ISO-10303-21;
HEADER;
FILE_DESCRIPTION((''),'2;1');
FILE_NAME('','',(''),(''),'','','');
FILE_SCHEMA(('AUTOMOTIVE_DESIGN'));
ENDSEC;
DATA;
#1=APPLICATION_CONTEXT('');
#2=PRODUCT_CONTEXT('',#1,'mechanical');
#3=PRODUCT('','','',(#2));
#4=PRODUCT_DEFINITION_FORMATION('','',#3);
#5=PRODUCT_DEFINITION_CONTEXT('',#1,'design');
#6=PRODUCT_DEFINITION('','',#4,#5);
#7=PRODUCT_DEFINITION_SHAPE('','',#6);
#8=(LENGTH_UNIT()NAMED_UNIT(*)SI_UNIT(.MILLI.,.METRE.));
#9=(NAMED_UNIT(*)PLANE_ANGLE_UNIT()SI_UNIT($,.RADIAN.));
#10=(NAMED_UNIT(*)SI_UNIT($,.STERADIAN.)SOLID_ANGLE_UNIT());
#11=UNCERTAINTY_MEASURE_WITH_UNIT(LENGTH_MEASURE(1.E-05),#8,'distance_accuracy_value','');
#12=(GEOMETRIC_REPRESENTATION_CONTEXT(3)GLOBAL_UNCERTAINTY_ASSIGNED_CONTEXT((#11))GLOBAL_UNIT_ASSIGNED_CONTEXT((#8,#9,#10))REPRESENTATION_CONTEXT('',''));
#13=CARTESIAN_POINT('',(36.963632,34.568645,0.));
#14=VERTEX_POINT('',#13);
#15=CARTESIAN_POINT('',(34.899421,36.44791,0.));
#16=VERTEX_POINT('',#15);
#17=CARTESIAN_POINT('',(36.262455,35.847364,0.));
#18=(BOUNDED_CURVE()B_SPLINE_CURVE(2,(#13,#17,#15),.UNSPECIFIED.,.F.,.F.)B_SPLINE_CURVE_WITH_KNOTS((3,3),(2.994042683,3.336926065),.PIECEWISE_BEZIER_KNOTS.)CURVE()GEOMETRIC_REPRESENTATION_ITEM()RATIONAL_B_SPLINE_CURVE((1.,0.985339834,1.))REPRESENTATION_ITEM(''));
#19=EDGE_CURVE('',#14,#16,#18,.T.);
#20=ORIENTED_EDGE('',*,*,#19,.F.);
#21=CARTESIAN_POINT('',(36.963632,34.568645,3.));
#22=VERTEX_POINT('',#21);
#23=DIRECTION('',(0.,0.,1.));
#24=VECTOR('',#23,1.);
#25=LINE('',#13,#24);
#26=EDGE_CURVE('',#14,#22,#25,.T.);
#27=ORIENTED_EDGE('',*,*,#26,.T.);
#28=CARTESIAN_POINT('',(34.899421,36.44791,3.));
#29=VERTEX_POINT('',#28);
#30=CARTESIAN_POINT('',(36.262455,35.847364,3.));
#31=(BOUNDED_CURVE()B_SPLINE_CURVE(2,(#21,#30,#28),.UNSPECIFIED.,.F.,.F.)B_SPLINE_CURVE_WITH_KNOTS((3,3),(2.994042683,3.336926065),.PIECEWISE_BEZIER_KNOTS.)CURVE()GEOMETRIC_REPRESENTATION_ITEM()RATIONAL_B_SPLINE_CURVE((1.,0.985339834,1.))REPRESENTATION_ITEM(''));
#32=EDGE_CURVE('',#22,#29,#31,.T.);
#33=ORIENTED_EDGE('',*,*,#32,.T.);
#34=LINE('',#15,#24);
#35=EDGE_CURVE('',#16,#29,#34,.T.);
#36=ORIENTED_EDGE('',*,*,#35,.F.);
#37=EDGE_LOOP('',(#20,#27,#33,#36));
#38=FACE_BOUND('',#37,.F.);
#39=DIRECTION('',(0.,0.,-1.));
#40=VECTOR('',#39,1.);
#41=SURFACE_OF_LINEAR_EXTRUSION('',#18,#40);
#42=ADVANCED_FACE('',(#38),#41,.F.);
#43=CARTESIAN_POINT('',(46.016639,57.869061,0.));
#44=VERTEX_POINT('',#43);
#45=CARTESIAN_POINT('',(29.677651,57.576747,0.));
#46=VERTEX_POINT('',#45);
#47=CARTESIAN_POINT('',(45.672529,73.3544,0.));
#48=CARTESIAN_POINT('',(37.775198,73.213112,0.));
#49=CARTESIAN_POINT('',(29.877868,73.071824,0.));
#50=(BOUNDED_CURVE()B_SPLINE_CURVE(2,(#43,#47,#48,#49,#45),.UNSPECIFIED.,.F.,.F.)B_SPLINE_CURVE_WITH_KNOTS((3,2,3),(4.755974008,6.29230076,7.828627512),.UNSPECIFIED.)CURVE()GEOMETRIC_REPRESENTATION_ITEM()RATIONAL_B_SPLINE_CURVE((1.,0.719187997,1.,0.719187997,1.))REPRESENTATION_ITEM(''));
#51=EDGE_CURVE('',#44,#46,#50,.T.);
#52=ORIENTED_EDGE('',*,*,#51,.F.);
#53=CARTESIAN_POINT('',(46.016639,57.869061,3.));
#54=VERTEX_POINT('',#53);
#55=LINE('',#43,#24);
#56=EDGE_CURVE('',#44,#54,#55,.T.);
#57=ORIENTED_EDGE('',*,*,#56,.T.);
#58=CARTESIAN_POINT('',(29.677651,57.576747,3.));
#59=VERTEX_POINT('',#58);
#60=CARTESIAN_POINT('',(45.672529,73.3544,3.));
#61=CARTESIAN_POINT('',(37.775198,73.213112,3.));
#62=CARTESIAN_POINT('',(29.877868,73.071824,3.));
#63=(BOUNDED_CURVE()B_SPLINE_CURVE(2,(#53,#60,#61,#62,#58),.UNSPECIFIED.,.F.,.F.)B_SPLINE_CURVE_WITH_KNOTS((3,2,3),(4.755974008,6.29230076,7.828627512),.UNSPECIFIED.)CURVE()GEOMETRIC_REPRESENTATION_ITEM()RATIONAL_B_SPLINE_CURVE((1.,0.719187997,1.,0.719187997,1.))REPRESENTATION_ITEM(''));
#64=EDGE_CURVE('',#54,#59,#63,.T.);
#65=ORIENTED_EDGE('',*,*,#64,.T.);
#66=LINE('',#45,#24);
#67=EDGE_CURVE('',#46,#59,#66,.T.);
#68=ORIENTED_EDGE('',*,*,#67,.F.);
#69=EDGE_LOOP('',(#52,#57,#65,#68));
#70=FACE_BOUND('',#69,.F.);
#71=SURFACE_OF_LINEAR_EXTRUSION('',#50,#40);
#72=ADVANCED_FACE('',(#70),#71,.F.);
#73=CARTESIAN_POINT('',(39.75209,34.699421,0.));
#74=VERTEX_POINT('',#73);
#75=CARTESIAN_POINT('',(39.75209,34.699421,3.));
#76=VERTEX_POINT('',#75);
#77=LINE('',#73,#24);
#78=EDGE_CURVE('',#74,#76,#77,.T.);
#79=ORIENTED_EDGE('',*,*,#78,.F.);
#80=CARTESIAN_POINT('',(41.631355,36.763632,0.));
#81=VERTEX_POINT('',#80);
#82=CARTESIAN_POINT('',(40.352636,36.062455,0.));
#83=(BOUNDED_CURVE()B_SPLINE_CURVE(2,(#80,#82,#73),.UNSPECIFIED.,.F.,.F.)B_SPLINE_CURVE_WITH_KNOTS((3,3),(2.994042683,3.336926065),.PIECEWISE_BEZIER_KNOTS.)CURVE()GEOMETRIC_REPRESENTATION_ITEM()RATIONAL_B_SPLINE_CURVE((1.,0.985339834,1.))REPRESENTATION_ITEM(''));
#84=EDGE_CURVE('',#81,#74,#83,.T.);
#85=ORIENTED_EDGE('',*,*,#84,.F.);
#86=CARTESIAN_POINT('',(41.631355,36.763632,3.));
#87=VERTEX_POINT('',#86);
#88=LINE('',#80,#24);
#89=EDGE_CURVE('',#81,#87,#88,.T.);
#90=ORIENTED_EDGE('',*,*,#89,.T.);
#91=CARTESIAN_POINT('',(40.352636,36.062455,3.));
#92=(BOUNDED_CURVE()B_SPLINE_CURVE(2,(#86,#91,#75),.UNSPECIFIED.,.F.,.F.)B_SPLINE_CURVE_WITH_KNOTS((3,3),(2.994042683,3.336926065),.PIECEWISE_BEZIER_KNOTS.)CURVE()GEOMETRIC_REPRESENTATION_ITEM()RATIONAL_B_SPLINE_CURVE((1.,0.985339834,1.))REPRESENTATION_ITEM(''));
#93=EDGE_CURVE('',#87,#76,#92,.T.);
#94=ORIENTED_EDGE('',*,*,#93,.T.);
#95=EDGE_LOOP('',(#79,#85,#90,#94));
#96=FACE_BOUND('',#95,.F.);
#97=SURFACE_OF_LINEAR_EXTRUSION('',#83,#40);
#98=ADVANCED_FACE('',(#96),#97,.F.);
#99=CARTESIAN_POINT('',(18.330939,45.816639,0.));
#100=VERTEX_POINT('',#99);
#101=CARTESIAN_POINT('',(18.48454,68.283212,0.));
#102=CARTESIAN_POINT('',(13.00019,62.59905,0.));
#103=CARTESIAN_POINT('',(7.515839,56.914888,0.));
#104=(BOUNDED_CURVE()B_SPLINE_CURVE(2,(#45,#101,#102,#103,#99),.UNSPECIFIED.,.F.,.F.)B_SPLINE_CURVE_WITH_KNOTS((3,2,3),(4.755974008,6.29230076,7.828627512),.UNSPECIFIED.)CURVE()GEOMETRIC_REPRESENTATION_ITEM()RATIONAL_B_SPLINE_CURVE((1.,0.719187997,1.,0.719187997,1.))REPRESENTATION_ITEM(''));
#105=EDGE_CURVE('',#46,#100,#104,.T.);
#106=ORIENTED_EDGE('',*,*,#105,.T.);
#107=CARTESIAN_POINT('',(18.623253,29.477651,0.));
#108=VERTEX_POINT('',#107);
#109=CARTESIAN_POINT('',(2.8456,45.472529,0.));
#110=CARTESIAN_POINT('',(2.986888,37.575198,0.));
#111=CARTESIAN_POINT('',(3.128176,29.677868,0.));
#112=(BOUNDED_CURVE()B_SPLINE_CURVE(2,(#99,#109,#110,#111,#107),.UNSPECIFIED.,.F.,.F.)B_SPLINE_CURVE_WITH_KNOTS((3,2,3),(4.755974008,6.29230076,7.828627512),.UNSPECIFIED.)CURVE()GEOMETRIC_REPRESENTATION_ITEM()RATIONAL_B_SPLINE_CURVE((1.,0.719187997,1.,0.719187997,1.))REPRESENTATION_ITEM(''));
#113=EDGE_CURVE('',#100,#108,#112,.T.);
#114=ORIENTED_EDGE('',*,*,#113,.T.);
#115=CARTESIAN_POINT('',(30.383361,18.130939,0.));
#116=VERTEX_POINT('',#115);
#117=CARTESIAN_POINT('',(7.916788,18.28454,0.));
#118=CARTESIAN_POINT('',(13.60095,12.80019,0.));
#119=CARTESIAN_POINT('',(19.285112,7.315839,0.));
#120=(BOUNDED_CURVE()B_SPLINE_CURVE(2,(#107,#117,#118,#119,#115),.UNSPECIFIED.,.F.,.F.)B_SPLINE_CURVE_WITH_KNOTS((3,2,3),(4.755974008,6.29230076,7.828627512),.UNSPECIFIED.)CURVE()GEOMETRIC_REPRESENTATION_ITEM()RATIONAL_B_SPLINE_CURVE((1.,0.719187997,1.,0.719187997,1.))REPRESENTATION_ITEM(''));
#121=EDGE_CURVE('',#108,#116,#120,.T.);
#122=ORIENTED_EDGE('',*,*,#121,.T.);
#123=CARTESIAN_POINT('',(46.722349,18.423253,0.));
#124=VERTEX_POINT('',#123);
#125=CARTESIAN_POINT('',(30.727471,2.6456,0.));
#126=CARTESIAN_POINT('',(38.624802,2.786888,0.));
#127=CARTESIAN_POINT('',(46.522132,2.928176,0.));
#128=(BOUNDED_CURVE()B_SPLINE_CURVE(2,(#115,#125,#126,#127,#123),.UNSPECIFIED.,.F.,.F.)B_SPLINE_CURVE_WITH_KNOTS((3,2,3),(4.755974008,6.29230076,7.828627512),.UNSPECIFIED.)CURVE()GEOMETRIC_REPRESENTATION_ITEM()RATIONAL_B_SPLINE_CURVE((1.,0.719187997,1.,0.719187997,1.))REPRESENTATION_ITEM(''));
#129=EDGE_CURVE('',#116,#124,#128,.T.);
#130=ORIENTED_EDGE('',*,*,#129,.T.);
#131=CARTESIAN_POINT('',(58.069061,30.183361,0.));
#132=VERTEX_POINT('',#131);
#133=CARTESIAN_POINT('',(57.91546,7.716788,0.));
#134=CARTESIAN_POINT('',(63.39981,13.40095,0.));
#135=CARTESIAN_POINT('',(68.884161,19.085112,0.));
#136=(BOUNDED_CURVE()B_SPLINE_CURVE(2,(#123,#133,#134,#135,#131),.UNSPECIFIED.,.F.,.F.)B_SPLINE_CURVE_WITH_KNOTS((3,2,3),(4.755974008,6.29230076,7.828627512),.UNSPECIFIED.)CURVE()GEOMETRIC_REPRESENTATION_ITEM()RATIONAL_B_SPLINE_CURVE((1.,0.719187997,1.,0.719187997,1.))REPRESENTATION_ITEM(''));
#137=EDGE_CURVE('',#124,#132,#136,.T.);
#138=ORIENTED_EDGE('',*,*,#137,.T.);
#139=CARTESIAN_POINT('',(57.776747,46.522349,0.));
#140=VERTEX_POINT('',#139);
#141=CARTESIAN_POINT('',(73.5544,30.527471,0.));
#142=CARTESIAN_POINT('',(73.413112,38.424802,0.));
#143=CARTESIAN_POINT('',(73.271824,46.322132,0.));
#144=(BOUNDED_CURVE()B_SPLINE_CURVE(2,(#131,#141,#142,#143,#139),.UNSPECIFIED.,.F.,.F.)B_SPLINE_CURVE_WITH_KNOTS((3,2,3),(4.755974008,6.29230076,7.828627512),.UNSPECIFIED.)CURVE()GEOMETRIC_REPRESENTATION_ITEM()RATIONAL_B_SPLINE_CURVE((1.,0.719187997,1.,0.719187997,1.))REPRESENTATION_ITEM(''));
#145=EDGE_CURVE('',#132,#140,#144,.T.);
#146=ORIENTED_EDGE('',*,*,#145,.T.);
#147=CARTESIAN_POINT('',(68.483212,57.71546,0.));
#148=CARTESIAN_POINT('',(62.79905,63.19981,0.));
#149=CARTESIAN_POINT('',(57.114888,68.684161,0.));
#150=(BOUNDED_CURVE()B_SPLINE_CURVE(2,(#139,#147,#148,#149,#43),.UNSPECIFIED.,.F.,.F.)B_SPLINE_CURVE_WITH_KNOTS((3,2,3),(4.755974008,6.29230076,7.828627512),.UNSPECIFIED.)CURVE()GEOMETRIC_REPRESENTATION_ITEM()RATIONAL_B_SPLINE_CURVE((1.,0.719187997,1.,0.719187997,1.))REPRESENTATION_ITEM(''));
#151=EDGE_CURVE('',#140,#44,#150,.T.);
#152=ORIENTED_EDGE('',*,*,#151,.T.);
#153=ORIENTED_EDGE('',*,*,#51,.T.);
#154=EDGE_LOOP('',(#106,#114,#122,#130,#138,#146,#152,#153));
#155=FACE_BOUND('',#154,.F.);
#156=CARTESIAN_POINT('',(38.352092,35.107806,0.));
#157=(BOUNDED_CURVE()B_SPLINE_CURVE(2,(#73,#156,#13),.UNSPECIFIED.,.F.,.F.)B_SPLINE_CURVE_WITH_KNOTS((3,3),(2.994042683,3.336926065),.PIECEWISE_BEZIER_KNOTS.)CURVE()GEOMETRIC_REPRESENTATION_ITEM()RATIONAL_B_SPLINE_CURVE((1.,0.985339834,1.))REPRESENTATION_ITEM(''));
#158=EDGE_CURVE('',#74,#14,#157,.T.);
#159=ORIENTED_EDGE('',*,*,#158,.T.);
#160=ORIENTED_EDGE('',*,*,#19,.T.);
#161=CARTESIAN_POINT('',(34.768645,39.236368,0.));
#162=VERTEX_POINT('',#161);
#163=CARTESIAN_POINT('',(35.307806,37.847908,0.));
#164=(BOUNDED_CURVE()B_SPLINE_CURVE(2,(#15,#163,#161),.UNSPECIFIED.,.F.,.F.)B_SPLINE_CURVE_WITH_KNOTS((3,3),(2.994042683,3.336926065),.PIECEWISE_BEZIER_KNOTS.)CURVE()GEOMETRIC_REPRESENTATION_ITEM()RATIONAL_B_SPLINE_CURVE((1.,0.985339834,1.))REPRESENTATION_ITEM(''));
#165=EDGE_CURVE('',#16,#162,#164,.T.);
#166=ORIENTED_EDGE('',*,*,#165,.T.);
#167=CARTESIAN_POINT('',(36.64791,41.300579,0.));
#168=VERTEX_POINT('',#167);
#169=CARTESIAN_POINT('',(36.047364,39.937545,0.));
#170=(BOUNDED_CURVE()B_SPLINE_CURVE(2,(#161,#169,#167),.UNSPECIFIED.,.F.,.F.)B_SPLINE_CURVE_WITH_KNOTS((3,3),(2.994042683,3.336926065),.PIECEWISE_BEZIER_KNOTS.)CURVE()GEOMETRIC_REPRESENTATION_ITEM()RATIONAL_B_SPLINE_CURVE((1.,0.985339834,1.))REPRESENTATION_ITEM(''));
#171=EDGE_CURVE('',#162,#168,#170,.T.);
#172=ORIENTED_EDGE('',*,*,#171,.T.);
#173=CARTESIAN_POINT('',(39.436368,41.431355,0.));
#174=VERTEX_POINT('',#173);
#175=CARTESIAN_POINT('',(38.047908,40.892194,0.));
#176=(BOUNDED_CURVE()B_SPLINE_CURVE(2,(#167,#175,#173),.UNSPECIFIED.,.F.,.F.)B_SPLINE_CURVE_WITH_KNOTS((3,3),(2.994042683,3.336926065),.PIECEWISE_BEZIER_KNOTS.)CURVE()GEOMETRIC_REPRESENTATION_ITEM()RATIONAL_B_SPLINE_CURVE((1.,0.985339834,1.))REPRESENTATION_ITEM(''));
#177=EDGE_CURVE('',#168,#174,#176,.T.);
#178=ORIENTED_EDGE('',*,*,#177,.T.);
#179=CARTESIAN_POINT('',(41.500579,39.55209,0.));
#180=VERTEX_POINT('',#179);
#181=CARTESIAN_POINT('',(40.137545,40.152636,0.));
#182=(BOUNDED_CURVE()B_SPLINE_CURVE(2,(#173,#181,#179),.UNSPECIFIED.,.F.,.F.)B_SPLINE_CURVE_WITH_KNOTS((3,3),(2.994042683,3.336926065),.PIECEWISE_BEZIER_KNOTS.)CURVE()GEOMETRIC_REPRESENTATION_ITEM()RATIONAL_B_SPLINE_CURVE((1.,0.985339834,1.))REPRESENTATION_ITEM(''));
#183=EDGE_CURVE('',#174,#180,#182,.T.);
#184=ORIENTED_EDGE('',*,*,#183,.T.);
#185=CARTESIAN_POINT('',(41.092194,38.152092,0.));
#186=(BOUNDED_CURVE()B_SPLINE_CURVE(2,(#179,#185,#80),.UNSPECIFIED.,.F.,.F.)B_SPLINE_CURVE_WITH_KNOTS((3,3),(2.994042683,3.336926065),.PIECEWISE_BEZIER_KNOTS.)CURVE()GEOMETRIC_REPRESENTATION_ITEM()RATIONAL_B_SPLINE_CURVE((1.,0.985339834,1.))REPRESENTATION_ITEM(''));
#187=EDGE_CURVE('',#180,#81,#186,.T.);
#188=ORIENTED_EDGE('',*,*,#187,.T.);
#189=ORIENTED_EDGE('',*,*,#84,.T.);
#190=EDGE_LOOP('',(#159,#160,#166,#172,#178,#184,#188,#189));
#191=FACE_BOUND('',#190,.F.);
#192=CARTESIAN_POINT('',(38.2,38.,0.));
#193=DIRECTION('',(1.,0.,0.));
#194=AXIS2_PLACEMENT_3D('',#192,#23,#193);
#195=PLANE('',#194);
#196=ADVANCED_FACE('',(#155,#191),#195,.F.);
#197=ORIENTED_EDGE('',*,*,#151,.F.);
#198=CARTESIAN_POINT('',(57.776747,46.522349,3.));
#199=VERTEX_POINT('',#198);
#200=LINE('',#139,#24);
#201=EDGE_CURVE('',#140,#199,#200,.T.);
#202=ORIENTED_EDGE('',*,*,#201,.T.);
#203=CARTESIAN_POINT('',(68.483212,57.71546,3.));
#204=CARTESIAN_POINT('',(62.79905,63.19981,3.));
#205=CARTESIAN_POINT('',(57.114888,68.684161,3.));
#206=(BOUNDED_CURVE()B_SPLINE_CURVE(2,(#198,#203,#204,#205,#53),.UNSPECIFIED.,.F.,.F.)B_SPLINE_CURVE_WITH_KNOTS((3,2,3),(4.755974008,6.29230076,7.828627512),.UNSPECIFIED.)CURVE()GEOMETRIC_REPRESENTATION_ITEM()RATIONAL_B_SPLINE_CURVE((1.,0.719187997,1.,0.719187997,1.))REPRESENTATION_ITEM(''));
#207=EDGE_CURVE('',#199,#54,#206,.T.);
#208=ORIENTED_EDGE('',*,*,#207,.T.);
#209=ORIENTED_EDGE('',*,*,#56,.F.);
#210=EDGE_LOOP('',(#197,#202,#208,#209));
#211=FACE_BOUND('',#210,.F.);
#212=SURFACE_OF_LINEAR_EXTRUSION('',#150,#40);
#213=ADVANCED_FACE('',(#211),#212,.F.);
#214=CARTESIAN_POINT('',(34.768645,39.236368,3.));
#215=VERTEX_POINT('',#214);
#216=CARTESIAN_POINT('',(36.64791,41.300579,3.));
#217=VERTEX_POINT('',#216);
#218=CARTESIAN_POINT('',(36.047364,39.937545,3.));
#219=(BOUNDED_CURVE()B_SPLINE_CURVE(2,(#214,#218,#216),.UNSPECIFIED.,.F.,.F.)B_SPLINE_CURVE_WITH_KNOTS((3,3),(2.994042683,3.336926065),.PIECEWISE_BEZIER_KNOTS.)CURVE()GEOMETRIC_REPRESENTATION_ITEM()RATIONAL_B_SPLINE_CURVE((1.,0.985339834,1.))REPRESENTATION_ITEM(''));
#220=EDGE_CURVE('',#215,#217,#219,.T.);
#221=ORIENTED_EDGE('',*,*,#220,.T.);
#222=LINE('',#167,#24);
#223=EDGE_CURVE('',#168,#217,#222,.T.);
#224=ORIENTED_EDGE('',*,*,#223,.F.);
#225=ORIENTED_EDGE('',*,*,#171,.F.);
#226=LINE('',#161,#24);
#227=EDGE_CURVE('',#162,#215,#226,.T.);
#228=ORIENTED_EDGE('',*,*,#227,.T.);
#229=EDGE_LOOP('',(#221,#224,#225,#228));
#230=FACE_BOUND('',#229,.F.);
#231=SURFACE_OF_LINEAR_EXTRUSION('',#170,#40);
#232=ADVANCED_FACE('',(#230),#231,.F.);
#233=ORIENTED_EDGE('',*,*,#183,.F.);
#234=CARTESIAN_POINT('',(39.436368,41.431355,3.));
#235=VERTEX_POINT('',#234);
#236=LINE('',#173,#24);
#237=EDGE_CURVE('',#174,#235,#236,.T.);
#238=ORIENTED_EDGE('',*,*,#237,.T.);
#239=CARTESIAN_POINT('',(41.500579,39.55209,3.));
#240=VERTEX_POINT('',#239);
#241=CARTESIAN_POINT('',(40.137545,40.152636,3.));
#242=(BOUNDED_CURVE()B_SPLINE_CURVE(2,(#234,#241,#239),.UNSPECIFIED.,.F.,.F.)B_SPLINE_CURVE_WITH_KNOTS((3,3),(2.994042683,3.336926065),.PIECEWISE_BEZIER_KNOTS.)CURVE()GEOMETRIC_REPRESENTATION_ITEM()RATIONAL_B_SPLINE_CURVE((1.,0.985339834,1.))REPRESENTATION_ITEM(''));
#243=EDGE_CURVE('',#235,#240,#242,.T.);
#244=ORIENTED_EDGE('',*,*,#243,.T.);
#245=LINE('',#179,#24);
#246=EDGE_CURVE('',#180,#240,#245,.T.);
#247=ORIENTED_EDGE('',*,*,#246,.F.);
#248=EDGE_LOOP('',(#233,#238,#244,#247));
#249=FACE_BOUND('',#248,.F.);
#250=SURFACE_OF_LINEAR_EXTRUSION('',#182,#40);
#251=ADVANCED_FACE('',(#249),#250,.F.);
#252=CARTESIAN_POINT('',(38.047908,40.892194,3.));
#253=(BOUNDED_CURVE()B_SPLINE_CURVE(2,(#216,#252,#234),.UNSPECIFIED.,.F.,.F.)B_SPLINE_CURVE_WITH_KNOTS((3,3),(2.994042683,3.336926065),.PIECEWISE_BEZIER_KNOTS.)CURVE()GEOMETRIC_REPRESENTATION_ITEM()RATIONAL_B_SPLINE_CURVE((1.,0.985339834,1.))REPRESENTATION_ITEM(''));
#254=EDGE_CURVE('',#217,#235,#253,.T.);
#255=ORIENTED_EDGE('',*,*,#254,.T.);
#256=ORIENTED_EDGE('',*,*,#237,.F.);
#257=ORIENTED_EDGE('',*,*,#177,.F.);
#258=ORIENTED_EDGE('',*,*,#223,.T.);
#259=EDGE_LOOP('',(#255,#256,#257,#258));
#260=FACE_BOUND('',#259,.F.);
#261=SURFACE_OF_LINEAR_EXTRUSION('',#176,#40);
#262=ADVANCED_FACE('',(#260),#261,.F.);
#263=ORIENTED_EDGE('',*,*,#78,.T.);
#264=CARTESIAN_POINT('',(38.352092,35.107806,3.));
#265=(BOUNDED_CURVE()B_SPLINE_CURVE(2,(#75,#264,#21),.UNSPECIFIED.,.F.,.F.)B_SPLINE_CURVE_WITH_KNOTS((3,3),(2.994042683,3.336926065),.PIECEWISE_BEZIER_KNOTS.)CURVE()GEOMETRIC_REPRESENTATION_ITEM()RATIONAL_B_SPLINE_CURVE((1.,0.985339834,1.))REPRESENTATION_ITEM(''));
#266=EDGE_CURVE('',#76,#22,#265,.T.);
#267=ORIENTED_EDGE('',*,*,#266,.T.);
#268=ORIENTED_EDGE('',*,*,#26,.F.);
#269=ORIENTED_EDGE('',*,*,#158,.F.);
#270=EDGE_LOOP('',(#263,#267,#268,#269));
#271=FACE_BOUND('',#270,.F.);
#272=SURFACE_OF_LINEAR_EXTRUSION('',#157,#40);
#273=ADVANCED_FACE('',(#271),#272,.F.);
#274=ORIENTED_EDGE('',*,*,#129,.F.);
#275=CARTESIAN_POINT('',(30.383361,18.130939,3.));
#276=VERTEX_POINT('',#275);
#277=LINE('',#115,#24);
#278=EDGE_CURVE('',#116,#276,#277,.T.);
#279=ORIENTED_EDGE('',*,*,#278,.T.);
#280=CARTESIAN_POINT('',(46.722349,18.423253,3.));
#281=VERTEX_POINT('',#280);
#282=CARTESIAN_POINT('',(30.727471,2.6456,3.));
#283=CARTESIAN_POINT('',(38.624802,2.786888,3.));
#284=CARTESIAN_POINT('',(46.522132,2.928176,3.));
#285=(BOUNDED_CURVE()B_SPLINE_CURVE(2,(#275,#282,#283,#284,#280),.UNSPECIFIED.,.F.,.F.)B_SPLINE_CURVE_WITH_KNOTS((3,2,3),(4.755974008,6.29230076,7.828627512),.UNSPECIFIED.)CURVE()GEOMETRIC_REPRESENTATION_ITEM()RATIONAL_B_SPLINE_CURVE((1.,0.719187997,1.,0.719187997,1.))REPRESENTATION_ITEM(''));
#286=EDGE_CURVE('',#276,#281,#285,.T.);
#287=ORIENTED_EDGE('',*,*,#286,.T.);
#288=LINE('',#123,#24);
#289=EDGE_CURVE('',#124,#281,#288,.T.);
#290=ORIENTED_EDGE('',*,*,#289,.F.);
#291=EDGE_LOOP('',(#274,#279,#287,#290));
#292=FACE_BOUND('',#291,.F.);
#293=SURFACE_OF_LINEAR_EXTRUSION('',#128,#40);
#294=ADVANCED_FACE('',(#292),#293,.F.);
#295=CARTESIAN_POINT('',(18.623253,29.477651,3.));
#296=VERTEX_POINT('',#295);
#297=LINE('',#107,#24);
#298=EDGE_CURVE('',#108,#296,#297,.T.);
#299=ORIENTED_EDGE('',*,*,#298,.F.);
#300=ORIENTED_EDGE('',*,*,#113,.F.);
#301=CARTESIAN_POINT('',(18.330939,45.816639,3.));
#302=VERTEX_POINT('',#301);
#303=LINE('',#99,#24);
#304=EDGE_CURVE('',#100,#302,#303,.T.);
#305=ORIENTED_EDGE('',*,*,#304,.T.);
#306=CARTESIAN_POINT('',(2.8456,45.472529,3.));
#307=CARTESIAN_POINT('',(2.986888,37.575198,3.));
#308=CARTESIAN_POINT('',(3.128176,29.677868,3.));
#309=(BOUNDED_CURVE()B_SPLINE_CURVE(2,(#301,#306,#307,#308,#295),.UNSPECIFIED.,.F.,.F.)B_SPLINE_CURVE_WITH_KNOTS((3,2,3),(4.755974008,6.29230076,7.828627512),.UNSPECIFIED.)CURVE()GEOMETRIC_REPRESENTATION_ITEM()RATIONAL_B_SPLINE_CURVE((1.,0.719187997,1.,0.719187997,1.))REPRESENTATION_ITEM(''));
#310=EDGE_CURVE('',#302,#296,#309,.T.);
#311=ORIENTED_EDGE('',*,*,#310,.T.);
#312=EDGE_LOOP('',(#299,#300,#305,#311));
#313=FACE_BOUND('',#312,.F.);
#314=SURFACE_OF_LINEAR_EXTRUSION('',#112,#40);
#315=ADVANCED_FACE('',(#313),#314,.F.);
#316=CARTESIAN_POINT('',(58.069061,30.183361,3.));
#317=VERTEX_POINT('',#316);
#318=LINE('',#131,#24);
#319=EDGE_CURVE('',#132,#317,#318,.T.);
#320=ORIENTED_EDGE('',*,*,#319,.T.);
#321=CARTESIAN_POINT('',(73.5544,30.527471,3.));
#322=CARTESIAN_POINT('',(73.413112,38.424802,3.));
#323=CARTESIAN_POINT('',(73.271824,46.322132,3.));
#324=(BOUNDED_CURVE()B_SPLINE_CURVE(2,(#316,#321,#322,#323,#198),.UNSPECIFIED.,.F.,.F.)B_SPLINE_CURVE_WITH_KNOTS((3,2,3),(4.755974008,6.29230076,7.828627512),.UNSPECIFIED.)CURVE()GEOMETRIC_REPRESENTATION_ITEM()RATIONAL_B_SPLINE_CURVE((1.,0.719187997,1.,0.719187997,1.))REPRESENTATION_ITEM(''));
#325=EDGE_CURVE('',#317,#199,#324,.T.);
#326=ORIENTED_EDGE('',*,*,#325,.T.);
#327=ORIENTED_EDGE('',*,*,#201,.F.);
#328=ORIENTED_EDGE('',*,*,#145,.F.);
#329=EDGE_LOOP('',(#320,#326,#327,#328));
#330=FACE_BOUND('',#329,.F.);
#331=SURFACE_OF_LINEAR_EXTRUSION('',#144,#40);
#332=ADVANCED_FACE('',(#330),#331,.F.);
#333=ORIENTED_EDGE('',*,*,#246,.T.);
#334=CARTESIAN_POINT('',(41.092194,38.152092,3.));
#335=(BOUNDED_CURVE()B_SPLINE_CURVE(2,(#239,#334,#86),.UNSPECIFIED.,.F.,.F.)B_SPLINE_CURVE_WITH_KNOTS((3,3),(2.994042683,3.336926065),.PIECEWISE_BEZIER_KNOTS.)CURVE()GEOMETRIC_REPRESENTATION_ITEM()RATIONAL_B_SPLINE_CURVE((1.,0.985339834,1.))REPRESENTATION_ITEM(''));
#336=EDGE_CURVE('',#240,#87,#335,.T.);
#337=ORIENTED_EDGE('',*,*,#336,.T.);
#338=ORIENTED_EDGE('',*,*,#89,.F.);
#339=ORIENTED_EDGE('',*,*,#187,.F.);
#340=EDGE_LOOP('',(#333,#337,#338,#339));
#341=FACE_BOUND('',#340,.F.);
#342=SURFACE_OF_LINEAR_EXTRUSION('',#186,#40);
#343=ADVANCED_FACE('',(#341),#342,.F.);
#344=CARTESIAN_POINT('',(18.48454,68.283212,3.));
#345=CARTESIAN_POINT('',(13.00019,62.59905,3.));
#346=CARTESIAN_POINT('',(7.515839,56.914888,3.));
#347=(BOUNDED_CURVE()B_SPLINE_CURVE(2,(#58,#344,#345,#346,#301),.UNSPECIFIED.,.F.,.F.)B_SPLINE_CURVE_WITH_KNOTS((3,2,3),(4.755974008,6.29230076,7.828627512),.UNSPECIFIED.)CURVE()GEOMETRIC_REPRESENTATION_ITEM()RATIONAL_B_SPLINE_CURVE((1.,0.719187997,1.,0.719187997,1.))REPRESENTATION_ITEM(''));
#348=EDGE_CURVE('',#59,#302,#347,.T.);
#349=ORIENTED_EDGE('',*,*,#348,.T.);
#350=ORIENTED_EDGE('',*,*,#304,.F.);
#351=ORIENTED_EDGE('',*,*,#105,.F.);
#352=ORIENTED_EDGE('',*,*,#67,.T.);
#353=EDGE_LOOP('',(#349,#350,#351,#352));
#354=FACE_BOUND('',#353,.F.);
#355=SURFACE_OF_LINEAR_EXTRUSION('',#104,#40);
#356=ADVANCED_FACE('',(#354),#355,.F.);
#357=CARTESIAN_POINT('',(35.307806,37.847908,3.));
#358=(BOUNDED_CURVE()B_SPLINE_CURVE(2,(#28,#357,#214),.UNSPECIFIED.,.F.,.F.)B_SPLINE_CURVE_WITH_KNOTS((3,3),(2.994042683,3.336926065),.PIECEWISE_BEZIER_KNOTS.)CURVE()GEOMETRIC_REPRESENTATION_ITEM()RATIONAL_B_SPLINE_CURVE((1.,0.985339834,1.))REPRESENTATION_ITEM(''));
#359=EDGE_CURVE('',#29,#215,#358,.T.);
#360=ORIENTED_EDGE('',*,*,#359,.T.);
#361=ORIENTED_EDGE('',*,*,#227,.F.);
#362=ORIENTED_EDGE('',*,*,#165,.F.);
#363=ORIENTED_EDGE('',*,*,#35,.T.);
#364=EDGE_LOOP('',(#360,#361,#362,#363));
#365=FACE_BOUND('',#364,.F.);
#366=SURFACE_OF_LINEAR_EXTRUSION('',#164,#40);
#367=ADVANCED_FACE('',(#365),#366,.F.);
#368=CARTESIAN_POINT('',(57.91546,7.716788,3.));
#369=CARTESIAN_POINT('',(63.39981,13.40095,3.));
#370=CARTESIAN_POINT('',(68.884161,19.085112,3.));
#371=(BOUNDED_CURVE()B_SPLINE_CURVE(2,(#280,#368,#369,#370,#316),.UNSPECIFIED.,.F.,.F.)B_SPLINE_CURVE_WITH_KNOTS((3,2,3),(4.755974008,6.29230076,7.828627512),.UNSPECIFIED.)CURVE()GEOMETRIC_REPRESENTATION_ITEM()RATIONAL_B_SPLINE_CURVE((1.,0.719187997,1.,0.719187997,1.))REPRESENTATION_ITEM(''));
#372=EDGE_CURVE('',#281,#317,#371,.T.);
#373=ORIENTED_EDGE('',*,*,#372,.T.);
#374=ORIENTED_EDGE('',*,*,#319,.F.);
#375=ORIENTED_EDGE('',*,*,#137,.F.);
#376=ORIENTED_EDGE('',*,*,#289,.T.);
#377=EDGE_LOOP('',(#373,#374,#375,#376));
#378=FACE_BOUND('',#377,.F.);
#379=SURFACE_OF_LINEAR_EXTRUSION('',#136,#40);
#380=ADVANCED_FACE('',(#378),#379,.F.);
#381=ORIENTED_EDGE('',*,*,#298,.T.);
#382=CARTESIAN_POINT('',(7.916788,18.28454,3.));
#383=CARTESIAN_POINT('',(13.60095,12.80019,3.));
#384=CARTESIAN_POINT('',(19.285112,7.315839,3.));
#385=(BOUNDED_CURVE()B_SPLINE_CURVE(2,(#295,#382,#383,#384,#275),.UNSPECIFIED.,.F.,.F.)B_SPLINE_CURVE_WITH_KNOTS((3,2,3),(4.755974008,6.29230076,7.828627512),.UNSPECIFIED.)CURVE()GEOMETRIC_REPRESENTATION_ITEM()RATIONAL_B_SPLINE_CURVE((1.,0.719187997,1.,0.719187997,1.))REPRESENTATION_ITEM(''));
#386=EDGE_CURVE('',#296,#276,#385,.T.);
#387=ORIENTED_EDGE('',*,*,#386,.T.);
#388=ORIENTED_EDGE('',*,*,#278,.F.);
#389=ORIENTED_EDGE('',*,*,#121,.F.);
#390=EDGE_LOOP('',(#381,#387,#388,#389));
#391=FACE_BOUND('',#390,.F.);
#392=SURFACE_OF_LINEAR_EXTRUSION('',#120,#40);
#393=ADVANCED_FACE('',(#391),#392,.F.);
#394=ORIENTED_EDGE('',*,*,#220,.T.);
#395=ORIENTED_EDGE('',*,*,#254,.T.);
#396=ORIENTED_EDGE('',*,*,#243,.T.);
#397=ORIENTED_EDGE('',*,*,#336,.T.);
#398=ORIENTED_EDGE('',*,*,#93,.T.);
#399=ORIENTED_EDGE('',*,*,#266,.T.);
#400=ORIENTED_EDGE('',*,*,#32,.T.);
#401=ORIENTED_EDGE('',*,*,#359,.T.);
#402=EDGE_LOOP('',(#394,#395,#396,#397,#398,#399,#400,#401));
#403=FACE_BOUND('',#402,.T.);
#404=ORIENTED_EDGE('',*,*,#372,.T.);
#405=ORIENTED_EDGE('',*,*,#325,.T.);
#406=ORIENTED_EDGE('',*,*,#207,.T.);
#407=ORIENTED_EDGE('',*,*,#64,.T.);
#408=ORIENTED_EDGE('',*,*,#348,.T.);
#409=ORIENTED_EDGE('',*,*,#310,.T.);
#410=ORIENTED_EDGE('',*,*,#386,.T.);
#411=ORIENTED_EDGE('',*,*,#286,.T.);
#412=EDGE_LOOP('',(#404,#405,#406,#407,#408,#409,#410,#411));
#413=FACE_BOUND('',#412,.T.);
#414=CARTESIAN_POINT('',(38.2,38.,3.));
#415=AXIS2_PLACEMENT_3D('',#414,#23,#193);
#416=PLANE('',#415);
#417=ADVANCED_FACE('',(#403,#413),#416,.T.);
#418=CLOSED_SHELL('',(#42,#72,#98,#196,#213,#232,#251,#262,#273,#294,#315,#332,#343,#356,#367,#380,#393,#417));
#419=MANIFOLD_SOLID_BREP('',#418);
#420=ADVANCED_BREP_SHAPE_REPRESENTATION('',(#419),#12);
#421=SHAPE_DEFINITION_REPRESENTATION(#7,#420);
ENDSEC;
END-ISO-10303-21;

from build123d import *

# Parameters (mm, degrees)
F3_DEPTH = 3


with BuildPart() as f3:
    # F2 (on face) → F3 (new body)
    with BuildSketch(Plane.XY):
        with BuildLine():
            add(Edge.make_bspline(
                [(46.0166394773, 57.8690613342), (45.6725287761, 73.3543999887), (37.7751981504, 73.2131118908), (29.8778675246, 73.0718237928), (29.6776507752, 57.5767467858)],
                knots=[4.755974008, 4.755974008, 4.755974008, 6.2923007601, 6.2923007601, 7.8286275121, 7.8286275121, 7.8286275121], degree=2, weights=[1, 0.7191879967, 1, 0.7191879967, 1]))
            add(Edge.make_bspline(
                [(29.6776507752, 57.5767467858), (18.4845397934, 68.283211747), (13.0001895268, 62.5990499361), (7.5158392602, 56.9148881252), (18.3309386658, 45.8166394773)],
                knots=[4.755974008, 4.755974008, 4.755974008, 6.2923007601, 6.2923007601, 7.8286275121, 7.8286275121, 7.8286275121], degree=2, weights=[1, 0.7191879967, 1, 0.7191879967, 1]))
            add(Edge.make_bspline(
                [(18.3309386658, 45.8166394773), (2.8456000113, 45.4725287761), (2.9868881092, 37.5751981504), (3.1281762072, 29.6778675246), (18.6232532142, 29.4776507752)],
                knots=[4.755974008, 4.755974008, 4.755974008, 6.2923007601, 6.2923007601, 7.8286275121, 7.8286275121, 7.8286275121], degree=2, weights=[1, 0.7191879967, 1, 0.7191879967, 1]))
            add(Edge.make_bspline(
                [(18.6232532142, 29.4776507752), (7.916788253, 18.2845397934), (13.6009500639, 12.8001895268), (19.2851118748, 7.3158392602), (30.3833605227, 18.1309386658)],
                knots=[4.755974008, 4.755974008, 4.755974008, 6.2923007601, 6.2923007601, 7.8286275121, 7.8286275121, 7.8286275121], degree=2, weights=[1, 0.7191879967, 1, 0.7191879967, 1]))
            add(Edge.make_bspline(
                [(30.3833605227, 18.1309386658), (30.7274712239, 2.6456000113), (38.6248018496, 2.7868881092), (46.5221324754, 2.9281762072), (46.7223492248, 18.4232532142)],
                knots=[4.755974008, 4.755974008, 4.755974008, 6.2923007601, 6.2923007601, 7.8286275121, 7.8286275121, 7.8286275121], degree=2, weights=[1, 0.7191879967, 1, 0.7191879967, 1]))
            add(Edge.make_bspline(
                [(46.7223492248, 18.4232532142), (57.9154602066, 7.716788253), (63.3998104732, 13.4009500639), (68.8841607398, 19.0851118748), (58.0690613342, 30.1833605227)],
                knots=[4.755974008, 4.755974008, 4.755974008, 6.2923007601, 6.2923007601, 7.8286275121, 7.8286275121, 7.8286275121], degree=2, weights=[1, 0.7191879967, 1, 0.7191879967, 1]))
            add(Edge.make_bspline(
                [(58.0690613342, 30.1833605227), (73.5543999887, 30.5274712239), (73.4131118908, 38.4248018496), (73.2718237928, 46.3221324754), (57.7767467858, 46.5223492248)],
                knots=[4.755974008, 4.755974008, 4.755974008, 6.2923007601, 6.2923007601, 7.8286275121, 7.8286275121, 7.8286275121], degree=2, weights=[1, 0.7191879967, 1, 0.7191879967, 1]))
            add(Edge.make_bspline(
                [(57.7767467858, 46.5223492248), (68.483211747, 57.7154602066), (62.7990499361, 63.1998104732), (57.1148881252, 68.6841607398), (46.0166394773, 57.8690613342)],
                knots=[4.755974008, 4.755974008, 4.755974008, 6.2923007601, 6.2923007601, 7.8286275121, 7.8286275121, 7.8286275121], degree=2, weights=[1, 0.7191879967, 1, 0.7191879967, 1]))
        make_face()
        with BuildLine():
            add(Edge.make_bspline(
                [(34.7686447028, 39.2363682043), (36.0473640482, 39.9375446788), (36.647909742, 41.3005789406)],
                knots=[2.9940426833, 2.9940426833, 2.9940426833, 3.3369260654, 3.3369260654, 3.3369260654], degree=2, weights=[1, 0.9853398341, 1]))
            add(Edge.make_bspline(
                [(36.647909742, 41.3005789406), (38.0479075023, 40.8921944601), (39.4363682043, 41.4313552972)],
                knots=[2.9940426833, 2.9940426833, 2.9940426833, 3.3369260654, 3.3369260654, 3.3369260654], degree=2, weights=[1, 0.9853398341, 1]))
            add(Edge.make_bspline(
                [(39.4363682043, 41.4313552972), (40.1375446788, 40.1526359518), (41.5005789406, 39.552090258)],
                knots=[2.9940426833, 2.9940426833, 2.9940426833, 3.3369260654, 3.3369260654, 3.3369260654], degree=2, weights=[1, 0.9853398341, 1]))
            add(Edge.make_bspline(
                [(41.5005789406, 39.552090258), (41.0921944601, 38.1520924977), (41.6313552972, 36.7636317957)],
                knots=[2.9940426833, 2.9940426833, 2.9940426833, 3.3369260654, 3.3369260654, 3.3369260654], degree=2, weights=[1, 0.9853398341, 1]))
            add(Edge.make_bspline(
                [(41.6313552972, 36.7636317957), (40.3526359518, 36.0624553212), (39.752090258, 34.6994210594)],
                knots=[2.9940426833, 2.9940426833, 2.9940426833, 3.3369260654, 3.3369260654, 3.3369260654], degree=2, weights=[1, 0.9853398341, 1]))
            add(Edge.make_bspline(
                [(39.752090258, 34.6994210594), (38.3520924977, 35.1078055399), (36.9636317957, 34.5686447028)],
                knots=[2.9940426833, 2.9940426833, 2.9940426833, 3.3369260654, 3.3369260654, 3.3369260654], degree=2, weights=[1, 0.9853398341, 1]))
            add(Edge.make_bspline(
                [(36.9636317957, 34.5686447028), (36.2624553212, 35.8473640482), (34.8994210594, 36.447909742)],
                knots=[2.9940426833, 2.9940426833, 2.9940426833, 3.3369260654, 3.3369260654, 3.3369260654], degree=2, weights=[1, 0.9853398341, 1]))
            add(Edge.make_bspline(
                [(34.8994210594, 36.447909742), (35.3078055399, 37.8479075023), (34.7686447028, 39.2363682043)],
                knots=[2.9940426833, 2.9940426833, 2.9940426833, 3.3369260654, 3.3369260654, 3.3369260654], degree=2, weights=[1, 0.9853398341, 1]))
        make_face(mode=Mode.SUBTRACT)
    extrude(amount=F3_DEPTH)


solid = f3.part
